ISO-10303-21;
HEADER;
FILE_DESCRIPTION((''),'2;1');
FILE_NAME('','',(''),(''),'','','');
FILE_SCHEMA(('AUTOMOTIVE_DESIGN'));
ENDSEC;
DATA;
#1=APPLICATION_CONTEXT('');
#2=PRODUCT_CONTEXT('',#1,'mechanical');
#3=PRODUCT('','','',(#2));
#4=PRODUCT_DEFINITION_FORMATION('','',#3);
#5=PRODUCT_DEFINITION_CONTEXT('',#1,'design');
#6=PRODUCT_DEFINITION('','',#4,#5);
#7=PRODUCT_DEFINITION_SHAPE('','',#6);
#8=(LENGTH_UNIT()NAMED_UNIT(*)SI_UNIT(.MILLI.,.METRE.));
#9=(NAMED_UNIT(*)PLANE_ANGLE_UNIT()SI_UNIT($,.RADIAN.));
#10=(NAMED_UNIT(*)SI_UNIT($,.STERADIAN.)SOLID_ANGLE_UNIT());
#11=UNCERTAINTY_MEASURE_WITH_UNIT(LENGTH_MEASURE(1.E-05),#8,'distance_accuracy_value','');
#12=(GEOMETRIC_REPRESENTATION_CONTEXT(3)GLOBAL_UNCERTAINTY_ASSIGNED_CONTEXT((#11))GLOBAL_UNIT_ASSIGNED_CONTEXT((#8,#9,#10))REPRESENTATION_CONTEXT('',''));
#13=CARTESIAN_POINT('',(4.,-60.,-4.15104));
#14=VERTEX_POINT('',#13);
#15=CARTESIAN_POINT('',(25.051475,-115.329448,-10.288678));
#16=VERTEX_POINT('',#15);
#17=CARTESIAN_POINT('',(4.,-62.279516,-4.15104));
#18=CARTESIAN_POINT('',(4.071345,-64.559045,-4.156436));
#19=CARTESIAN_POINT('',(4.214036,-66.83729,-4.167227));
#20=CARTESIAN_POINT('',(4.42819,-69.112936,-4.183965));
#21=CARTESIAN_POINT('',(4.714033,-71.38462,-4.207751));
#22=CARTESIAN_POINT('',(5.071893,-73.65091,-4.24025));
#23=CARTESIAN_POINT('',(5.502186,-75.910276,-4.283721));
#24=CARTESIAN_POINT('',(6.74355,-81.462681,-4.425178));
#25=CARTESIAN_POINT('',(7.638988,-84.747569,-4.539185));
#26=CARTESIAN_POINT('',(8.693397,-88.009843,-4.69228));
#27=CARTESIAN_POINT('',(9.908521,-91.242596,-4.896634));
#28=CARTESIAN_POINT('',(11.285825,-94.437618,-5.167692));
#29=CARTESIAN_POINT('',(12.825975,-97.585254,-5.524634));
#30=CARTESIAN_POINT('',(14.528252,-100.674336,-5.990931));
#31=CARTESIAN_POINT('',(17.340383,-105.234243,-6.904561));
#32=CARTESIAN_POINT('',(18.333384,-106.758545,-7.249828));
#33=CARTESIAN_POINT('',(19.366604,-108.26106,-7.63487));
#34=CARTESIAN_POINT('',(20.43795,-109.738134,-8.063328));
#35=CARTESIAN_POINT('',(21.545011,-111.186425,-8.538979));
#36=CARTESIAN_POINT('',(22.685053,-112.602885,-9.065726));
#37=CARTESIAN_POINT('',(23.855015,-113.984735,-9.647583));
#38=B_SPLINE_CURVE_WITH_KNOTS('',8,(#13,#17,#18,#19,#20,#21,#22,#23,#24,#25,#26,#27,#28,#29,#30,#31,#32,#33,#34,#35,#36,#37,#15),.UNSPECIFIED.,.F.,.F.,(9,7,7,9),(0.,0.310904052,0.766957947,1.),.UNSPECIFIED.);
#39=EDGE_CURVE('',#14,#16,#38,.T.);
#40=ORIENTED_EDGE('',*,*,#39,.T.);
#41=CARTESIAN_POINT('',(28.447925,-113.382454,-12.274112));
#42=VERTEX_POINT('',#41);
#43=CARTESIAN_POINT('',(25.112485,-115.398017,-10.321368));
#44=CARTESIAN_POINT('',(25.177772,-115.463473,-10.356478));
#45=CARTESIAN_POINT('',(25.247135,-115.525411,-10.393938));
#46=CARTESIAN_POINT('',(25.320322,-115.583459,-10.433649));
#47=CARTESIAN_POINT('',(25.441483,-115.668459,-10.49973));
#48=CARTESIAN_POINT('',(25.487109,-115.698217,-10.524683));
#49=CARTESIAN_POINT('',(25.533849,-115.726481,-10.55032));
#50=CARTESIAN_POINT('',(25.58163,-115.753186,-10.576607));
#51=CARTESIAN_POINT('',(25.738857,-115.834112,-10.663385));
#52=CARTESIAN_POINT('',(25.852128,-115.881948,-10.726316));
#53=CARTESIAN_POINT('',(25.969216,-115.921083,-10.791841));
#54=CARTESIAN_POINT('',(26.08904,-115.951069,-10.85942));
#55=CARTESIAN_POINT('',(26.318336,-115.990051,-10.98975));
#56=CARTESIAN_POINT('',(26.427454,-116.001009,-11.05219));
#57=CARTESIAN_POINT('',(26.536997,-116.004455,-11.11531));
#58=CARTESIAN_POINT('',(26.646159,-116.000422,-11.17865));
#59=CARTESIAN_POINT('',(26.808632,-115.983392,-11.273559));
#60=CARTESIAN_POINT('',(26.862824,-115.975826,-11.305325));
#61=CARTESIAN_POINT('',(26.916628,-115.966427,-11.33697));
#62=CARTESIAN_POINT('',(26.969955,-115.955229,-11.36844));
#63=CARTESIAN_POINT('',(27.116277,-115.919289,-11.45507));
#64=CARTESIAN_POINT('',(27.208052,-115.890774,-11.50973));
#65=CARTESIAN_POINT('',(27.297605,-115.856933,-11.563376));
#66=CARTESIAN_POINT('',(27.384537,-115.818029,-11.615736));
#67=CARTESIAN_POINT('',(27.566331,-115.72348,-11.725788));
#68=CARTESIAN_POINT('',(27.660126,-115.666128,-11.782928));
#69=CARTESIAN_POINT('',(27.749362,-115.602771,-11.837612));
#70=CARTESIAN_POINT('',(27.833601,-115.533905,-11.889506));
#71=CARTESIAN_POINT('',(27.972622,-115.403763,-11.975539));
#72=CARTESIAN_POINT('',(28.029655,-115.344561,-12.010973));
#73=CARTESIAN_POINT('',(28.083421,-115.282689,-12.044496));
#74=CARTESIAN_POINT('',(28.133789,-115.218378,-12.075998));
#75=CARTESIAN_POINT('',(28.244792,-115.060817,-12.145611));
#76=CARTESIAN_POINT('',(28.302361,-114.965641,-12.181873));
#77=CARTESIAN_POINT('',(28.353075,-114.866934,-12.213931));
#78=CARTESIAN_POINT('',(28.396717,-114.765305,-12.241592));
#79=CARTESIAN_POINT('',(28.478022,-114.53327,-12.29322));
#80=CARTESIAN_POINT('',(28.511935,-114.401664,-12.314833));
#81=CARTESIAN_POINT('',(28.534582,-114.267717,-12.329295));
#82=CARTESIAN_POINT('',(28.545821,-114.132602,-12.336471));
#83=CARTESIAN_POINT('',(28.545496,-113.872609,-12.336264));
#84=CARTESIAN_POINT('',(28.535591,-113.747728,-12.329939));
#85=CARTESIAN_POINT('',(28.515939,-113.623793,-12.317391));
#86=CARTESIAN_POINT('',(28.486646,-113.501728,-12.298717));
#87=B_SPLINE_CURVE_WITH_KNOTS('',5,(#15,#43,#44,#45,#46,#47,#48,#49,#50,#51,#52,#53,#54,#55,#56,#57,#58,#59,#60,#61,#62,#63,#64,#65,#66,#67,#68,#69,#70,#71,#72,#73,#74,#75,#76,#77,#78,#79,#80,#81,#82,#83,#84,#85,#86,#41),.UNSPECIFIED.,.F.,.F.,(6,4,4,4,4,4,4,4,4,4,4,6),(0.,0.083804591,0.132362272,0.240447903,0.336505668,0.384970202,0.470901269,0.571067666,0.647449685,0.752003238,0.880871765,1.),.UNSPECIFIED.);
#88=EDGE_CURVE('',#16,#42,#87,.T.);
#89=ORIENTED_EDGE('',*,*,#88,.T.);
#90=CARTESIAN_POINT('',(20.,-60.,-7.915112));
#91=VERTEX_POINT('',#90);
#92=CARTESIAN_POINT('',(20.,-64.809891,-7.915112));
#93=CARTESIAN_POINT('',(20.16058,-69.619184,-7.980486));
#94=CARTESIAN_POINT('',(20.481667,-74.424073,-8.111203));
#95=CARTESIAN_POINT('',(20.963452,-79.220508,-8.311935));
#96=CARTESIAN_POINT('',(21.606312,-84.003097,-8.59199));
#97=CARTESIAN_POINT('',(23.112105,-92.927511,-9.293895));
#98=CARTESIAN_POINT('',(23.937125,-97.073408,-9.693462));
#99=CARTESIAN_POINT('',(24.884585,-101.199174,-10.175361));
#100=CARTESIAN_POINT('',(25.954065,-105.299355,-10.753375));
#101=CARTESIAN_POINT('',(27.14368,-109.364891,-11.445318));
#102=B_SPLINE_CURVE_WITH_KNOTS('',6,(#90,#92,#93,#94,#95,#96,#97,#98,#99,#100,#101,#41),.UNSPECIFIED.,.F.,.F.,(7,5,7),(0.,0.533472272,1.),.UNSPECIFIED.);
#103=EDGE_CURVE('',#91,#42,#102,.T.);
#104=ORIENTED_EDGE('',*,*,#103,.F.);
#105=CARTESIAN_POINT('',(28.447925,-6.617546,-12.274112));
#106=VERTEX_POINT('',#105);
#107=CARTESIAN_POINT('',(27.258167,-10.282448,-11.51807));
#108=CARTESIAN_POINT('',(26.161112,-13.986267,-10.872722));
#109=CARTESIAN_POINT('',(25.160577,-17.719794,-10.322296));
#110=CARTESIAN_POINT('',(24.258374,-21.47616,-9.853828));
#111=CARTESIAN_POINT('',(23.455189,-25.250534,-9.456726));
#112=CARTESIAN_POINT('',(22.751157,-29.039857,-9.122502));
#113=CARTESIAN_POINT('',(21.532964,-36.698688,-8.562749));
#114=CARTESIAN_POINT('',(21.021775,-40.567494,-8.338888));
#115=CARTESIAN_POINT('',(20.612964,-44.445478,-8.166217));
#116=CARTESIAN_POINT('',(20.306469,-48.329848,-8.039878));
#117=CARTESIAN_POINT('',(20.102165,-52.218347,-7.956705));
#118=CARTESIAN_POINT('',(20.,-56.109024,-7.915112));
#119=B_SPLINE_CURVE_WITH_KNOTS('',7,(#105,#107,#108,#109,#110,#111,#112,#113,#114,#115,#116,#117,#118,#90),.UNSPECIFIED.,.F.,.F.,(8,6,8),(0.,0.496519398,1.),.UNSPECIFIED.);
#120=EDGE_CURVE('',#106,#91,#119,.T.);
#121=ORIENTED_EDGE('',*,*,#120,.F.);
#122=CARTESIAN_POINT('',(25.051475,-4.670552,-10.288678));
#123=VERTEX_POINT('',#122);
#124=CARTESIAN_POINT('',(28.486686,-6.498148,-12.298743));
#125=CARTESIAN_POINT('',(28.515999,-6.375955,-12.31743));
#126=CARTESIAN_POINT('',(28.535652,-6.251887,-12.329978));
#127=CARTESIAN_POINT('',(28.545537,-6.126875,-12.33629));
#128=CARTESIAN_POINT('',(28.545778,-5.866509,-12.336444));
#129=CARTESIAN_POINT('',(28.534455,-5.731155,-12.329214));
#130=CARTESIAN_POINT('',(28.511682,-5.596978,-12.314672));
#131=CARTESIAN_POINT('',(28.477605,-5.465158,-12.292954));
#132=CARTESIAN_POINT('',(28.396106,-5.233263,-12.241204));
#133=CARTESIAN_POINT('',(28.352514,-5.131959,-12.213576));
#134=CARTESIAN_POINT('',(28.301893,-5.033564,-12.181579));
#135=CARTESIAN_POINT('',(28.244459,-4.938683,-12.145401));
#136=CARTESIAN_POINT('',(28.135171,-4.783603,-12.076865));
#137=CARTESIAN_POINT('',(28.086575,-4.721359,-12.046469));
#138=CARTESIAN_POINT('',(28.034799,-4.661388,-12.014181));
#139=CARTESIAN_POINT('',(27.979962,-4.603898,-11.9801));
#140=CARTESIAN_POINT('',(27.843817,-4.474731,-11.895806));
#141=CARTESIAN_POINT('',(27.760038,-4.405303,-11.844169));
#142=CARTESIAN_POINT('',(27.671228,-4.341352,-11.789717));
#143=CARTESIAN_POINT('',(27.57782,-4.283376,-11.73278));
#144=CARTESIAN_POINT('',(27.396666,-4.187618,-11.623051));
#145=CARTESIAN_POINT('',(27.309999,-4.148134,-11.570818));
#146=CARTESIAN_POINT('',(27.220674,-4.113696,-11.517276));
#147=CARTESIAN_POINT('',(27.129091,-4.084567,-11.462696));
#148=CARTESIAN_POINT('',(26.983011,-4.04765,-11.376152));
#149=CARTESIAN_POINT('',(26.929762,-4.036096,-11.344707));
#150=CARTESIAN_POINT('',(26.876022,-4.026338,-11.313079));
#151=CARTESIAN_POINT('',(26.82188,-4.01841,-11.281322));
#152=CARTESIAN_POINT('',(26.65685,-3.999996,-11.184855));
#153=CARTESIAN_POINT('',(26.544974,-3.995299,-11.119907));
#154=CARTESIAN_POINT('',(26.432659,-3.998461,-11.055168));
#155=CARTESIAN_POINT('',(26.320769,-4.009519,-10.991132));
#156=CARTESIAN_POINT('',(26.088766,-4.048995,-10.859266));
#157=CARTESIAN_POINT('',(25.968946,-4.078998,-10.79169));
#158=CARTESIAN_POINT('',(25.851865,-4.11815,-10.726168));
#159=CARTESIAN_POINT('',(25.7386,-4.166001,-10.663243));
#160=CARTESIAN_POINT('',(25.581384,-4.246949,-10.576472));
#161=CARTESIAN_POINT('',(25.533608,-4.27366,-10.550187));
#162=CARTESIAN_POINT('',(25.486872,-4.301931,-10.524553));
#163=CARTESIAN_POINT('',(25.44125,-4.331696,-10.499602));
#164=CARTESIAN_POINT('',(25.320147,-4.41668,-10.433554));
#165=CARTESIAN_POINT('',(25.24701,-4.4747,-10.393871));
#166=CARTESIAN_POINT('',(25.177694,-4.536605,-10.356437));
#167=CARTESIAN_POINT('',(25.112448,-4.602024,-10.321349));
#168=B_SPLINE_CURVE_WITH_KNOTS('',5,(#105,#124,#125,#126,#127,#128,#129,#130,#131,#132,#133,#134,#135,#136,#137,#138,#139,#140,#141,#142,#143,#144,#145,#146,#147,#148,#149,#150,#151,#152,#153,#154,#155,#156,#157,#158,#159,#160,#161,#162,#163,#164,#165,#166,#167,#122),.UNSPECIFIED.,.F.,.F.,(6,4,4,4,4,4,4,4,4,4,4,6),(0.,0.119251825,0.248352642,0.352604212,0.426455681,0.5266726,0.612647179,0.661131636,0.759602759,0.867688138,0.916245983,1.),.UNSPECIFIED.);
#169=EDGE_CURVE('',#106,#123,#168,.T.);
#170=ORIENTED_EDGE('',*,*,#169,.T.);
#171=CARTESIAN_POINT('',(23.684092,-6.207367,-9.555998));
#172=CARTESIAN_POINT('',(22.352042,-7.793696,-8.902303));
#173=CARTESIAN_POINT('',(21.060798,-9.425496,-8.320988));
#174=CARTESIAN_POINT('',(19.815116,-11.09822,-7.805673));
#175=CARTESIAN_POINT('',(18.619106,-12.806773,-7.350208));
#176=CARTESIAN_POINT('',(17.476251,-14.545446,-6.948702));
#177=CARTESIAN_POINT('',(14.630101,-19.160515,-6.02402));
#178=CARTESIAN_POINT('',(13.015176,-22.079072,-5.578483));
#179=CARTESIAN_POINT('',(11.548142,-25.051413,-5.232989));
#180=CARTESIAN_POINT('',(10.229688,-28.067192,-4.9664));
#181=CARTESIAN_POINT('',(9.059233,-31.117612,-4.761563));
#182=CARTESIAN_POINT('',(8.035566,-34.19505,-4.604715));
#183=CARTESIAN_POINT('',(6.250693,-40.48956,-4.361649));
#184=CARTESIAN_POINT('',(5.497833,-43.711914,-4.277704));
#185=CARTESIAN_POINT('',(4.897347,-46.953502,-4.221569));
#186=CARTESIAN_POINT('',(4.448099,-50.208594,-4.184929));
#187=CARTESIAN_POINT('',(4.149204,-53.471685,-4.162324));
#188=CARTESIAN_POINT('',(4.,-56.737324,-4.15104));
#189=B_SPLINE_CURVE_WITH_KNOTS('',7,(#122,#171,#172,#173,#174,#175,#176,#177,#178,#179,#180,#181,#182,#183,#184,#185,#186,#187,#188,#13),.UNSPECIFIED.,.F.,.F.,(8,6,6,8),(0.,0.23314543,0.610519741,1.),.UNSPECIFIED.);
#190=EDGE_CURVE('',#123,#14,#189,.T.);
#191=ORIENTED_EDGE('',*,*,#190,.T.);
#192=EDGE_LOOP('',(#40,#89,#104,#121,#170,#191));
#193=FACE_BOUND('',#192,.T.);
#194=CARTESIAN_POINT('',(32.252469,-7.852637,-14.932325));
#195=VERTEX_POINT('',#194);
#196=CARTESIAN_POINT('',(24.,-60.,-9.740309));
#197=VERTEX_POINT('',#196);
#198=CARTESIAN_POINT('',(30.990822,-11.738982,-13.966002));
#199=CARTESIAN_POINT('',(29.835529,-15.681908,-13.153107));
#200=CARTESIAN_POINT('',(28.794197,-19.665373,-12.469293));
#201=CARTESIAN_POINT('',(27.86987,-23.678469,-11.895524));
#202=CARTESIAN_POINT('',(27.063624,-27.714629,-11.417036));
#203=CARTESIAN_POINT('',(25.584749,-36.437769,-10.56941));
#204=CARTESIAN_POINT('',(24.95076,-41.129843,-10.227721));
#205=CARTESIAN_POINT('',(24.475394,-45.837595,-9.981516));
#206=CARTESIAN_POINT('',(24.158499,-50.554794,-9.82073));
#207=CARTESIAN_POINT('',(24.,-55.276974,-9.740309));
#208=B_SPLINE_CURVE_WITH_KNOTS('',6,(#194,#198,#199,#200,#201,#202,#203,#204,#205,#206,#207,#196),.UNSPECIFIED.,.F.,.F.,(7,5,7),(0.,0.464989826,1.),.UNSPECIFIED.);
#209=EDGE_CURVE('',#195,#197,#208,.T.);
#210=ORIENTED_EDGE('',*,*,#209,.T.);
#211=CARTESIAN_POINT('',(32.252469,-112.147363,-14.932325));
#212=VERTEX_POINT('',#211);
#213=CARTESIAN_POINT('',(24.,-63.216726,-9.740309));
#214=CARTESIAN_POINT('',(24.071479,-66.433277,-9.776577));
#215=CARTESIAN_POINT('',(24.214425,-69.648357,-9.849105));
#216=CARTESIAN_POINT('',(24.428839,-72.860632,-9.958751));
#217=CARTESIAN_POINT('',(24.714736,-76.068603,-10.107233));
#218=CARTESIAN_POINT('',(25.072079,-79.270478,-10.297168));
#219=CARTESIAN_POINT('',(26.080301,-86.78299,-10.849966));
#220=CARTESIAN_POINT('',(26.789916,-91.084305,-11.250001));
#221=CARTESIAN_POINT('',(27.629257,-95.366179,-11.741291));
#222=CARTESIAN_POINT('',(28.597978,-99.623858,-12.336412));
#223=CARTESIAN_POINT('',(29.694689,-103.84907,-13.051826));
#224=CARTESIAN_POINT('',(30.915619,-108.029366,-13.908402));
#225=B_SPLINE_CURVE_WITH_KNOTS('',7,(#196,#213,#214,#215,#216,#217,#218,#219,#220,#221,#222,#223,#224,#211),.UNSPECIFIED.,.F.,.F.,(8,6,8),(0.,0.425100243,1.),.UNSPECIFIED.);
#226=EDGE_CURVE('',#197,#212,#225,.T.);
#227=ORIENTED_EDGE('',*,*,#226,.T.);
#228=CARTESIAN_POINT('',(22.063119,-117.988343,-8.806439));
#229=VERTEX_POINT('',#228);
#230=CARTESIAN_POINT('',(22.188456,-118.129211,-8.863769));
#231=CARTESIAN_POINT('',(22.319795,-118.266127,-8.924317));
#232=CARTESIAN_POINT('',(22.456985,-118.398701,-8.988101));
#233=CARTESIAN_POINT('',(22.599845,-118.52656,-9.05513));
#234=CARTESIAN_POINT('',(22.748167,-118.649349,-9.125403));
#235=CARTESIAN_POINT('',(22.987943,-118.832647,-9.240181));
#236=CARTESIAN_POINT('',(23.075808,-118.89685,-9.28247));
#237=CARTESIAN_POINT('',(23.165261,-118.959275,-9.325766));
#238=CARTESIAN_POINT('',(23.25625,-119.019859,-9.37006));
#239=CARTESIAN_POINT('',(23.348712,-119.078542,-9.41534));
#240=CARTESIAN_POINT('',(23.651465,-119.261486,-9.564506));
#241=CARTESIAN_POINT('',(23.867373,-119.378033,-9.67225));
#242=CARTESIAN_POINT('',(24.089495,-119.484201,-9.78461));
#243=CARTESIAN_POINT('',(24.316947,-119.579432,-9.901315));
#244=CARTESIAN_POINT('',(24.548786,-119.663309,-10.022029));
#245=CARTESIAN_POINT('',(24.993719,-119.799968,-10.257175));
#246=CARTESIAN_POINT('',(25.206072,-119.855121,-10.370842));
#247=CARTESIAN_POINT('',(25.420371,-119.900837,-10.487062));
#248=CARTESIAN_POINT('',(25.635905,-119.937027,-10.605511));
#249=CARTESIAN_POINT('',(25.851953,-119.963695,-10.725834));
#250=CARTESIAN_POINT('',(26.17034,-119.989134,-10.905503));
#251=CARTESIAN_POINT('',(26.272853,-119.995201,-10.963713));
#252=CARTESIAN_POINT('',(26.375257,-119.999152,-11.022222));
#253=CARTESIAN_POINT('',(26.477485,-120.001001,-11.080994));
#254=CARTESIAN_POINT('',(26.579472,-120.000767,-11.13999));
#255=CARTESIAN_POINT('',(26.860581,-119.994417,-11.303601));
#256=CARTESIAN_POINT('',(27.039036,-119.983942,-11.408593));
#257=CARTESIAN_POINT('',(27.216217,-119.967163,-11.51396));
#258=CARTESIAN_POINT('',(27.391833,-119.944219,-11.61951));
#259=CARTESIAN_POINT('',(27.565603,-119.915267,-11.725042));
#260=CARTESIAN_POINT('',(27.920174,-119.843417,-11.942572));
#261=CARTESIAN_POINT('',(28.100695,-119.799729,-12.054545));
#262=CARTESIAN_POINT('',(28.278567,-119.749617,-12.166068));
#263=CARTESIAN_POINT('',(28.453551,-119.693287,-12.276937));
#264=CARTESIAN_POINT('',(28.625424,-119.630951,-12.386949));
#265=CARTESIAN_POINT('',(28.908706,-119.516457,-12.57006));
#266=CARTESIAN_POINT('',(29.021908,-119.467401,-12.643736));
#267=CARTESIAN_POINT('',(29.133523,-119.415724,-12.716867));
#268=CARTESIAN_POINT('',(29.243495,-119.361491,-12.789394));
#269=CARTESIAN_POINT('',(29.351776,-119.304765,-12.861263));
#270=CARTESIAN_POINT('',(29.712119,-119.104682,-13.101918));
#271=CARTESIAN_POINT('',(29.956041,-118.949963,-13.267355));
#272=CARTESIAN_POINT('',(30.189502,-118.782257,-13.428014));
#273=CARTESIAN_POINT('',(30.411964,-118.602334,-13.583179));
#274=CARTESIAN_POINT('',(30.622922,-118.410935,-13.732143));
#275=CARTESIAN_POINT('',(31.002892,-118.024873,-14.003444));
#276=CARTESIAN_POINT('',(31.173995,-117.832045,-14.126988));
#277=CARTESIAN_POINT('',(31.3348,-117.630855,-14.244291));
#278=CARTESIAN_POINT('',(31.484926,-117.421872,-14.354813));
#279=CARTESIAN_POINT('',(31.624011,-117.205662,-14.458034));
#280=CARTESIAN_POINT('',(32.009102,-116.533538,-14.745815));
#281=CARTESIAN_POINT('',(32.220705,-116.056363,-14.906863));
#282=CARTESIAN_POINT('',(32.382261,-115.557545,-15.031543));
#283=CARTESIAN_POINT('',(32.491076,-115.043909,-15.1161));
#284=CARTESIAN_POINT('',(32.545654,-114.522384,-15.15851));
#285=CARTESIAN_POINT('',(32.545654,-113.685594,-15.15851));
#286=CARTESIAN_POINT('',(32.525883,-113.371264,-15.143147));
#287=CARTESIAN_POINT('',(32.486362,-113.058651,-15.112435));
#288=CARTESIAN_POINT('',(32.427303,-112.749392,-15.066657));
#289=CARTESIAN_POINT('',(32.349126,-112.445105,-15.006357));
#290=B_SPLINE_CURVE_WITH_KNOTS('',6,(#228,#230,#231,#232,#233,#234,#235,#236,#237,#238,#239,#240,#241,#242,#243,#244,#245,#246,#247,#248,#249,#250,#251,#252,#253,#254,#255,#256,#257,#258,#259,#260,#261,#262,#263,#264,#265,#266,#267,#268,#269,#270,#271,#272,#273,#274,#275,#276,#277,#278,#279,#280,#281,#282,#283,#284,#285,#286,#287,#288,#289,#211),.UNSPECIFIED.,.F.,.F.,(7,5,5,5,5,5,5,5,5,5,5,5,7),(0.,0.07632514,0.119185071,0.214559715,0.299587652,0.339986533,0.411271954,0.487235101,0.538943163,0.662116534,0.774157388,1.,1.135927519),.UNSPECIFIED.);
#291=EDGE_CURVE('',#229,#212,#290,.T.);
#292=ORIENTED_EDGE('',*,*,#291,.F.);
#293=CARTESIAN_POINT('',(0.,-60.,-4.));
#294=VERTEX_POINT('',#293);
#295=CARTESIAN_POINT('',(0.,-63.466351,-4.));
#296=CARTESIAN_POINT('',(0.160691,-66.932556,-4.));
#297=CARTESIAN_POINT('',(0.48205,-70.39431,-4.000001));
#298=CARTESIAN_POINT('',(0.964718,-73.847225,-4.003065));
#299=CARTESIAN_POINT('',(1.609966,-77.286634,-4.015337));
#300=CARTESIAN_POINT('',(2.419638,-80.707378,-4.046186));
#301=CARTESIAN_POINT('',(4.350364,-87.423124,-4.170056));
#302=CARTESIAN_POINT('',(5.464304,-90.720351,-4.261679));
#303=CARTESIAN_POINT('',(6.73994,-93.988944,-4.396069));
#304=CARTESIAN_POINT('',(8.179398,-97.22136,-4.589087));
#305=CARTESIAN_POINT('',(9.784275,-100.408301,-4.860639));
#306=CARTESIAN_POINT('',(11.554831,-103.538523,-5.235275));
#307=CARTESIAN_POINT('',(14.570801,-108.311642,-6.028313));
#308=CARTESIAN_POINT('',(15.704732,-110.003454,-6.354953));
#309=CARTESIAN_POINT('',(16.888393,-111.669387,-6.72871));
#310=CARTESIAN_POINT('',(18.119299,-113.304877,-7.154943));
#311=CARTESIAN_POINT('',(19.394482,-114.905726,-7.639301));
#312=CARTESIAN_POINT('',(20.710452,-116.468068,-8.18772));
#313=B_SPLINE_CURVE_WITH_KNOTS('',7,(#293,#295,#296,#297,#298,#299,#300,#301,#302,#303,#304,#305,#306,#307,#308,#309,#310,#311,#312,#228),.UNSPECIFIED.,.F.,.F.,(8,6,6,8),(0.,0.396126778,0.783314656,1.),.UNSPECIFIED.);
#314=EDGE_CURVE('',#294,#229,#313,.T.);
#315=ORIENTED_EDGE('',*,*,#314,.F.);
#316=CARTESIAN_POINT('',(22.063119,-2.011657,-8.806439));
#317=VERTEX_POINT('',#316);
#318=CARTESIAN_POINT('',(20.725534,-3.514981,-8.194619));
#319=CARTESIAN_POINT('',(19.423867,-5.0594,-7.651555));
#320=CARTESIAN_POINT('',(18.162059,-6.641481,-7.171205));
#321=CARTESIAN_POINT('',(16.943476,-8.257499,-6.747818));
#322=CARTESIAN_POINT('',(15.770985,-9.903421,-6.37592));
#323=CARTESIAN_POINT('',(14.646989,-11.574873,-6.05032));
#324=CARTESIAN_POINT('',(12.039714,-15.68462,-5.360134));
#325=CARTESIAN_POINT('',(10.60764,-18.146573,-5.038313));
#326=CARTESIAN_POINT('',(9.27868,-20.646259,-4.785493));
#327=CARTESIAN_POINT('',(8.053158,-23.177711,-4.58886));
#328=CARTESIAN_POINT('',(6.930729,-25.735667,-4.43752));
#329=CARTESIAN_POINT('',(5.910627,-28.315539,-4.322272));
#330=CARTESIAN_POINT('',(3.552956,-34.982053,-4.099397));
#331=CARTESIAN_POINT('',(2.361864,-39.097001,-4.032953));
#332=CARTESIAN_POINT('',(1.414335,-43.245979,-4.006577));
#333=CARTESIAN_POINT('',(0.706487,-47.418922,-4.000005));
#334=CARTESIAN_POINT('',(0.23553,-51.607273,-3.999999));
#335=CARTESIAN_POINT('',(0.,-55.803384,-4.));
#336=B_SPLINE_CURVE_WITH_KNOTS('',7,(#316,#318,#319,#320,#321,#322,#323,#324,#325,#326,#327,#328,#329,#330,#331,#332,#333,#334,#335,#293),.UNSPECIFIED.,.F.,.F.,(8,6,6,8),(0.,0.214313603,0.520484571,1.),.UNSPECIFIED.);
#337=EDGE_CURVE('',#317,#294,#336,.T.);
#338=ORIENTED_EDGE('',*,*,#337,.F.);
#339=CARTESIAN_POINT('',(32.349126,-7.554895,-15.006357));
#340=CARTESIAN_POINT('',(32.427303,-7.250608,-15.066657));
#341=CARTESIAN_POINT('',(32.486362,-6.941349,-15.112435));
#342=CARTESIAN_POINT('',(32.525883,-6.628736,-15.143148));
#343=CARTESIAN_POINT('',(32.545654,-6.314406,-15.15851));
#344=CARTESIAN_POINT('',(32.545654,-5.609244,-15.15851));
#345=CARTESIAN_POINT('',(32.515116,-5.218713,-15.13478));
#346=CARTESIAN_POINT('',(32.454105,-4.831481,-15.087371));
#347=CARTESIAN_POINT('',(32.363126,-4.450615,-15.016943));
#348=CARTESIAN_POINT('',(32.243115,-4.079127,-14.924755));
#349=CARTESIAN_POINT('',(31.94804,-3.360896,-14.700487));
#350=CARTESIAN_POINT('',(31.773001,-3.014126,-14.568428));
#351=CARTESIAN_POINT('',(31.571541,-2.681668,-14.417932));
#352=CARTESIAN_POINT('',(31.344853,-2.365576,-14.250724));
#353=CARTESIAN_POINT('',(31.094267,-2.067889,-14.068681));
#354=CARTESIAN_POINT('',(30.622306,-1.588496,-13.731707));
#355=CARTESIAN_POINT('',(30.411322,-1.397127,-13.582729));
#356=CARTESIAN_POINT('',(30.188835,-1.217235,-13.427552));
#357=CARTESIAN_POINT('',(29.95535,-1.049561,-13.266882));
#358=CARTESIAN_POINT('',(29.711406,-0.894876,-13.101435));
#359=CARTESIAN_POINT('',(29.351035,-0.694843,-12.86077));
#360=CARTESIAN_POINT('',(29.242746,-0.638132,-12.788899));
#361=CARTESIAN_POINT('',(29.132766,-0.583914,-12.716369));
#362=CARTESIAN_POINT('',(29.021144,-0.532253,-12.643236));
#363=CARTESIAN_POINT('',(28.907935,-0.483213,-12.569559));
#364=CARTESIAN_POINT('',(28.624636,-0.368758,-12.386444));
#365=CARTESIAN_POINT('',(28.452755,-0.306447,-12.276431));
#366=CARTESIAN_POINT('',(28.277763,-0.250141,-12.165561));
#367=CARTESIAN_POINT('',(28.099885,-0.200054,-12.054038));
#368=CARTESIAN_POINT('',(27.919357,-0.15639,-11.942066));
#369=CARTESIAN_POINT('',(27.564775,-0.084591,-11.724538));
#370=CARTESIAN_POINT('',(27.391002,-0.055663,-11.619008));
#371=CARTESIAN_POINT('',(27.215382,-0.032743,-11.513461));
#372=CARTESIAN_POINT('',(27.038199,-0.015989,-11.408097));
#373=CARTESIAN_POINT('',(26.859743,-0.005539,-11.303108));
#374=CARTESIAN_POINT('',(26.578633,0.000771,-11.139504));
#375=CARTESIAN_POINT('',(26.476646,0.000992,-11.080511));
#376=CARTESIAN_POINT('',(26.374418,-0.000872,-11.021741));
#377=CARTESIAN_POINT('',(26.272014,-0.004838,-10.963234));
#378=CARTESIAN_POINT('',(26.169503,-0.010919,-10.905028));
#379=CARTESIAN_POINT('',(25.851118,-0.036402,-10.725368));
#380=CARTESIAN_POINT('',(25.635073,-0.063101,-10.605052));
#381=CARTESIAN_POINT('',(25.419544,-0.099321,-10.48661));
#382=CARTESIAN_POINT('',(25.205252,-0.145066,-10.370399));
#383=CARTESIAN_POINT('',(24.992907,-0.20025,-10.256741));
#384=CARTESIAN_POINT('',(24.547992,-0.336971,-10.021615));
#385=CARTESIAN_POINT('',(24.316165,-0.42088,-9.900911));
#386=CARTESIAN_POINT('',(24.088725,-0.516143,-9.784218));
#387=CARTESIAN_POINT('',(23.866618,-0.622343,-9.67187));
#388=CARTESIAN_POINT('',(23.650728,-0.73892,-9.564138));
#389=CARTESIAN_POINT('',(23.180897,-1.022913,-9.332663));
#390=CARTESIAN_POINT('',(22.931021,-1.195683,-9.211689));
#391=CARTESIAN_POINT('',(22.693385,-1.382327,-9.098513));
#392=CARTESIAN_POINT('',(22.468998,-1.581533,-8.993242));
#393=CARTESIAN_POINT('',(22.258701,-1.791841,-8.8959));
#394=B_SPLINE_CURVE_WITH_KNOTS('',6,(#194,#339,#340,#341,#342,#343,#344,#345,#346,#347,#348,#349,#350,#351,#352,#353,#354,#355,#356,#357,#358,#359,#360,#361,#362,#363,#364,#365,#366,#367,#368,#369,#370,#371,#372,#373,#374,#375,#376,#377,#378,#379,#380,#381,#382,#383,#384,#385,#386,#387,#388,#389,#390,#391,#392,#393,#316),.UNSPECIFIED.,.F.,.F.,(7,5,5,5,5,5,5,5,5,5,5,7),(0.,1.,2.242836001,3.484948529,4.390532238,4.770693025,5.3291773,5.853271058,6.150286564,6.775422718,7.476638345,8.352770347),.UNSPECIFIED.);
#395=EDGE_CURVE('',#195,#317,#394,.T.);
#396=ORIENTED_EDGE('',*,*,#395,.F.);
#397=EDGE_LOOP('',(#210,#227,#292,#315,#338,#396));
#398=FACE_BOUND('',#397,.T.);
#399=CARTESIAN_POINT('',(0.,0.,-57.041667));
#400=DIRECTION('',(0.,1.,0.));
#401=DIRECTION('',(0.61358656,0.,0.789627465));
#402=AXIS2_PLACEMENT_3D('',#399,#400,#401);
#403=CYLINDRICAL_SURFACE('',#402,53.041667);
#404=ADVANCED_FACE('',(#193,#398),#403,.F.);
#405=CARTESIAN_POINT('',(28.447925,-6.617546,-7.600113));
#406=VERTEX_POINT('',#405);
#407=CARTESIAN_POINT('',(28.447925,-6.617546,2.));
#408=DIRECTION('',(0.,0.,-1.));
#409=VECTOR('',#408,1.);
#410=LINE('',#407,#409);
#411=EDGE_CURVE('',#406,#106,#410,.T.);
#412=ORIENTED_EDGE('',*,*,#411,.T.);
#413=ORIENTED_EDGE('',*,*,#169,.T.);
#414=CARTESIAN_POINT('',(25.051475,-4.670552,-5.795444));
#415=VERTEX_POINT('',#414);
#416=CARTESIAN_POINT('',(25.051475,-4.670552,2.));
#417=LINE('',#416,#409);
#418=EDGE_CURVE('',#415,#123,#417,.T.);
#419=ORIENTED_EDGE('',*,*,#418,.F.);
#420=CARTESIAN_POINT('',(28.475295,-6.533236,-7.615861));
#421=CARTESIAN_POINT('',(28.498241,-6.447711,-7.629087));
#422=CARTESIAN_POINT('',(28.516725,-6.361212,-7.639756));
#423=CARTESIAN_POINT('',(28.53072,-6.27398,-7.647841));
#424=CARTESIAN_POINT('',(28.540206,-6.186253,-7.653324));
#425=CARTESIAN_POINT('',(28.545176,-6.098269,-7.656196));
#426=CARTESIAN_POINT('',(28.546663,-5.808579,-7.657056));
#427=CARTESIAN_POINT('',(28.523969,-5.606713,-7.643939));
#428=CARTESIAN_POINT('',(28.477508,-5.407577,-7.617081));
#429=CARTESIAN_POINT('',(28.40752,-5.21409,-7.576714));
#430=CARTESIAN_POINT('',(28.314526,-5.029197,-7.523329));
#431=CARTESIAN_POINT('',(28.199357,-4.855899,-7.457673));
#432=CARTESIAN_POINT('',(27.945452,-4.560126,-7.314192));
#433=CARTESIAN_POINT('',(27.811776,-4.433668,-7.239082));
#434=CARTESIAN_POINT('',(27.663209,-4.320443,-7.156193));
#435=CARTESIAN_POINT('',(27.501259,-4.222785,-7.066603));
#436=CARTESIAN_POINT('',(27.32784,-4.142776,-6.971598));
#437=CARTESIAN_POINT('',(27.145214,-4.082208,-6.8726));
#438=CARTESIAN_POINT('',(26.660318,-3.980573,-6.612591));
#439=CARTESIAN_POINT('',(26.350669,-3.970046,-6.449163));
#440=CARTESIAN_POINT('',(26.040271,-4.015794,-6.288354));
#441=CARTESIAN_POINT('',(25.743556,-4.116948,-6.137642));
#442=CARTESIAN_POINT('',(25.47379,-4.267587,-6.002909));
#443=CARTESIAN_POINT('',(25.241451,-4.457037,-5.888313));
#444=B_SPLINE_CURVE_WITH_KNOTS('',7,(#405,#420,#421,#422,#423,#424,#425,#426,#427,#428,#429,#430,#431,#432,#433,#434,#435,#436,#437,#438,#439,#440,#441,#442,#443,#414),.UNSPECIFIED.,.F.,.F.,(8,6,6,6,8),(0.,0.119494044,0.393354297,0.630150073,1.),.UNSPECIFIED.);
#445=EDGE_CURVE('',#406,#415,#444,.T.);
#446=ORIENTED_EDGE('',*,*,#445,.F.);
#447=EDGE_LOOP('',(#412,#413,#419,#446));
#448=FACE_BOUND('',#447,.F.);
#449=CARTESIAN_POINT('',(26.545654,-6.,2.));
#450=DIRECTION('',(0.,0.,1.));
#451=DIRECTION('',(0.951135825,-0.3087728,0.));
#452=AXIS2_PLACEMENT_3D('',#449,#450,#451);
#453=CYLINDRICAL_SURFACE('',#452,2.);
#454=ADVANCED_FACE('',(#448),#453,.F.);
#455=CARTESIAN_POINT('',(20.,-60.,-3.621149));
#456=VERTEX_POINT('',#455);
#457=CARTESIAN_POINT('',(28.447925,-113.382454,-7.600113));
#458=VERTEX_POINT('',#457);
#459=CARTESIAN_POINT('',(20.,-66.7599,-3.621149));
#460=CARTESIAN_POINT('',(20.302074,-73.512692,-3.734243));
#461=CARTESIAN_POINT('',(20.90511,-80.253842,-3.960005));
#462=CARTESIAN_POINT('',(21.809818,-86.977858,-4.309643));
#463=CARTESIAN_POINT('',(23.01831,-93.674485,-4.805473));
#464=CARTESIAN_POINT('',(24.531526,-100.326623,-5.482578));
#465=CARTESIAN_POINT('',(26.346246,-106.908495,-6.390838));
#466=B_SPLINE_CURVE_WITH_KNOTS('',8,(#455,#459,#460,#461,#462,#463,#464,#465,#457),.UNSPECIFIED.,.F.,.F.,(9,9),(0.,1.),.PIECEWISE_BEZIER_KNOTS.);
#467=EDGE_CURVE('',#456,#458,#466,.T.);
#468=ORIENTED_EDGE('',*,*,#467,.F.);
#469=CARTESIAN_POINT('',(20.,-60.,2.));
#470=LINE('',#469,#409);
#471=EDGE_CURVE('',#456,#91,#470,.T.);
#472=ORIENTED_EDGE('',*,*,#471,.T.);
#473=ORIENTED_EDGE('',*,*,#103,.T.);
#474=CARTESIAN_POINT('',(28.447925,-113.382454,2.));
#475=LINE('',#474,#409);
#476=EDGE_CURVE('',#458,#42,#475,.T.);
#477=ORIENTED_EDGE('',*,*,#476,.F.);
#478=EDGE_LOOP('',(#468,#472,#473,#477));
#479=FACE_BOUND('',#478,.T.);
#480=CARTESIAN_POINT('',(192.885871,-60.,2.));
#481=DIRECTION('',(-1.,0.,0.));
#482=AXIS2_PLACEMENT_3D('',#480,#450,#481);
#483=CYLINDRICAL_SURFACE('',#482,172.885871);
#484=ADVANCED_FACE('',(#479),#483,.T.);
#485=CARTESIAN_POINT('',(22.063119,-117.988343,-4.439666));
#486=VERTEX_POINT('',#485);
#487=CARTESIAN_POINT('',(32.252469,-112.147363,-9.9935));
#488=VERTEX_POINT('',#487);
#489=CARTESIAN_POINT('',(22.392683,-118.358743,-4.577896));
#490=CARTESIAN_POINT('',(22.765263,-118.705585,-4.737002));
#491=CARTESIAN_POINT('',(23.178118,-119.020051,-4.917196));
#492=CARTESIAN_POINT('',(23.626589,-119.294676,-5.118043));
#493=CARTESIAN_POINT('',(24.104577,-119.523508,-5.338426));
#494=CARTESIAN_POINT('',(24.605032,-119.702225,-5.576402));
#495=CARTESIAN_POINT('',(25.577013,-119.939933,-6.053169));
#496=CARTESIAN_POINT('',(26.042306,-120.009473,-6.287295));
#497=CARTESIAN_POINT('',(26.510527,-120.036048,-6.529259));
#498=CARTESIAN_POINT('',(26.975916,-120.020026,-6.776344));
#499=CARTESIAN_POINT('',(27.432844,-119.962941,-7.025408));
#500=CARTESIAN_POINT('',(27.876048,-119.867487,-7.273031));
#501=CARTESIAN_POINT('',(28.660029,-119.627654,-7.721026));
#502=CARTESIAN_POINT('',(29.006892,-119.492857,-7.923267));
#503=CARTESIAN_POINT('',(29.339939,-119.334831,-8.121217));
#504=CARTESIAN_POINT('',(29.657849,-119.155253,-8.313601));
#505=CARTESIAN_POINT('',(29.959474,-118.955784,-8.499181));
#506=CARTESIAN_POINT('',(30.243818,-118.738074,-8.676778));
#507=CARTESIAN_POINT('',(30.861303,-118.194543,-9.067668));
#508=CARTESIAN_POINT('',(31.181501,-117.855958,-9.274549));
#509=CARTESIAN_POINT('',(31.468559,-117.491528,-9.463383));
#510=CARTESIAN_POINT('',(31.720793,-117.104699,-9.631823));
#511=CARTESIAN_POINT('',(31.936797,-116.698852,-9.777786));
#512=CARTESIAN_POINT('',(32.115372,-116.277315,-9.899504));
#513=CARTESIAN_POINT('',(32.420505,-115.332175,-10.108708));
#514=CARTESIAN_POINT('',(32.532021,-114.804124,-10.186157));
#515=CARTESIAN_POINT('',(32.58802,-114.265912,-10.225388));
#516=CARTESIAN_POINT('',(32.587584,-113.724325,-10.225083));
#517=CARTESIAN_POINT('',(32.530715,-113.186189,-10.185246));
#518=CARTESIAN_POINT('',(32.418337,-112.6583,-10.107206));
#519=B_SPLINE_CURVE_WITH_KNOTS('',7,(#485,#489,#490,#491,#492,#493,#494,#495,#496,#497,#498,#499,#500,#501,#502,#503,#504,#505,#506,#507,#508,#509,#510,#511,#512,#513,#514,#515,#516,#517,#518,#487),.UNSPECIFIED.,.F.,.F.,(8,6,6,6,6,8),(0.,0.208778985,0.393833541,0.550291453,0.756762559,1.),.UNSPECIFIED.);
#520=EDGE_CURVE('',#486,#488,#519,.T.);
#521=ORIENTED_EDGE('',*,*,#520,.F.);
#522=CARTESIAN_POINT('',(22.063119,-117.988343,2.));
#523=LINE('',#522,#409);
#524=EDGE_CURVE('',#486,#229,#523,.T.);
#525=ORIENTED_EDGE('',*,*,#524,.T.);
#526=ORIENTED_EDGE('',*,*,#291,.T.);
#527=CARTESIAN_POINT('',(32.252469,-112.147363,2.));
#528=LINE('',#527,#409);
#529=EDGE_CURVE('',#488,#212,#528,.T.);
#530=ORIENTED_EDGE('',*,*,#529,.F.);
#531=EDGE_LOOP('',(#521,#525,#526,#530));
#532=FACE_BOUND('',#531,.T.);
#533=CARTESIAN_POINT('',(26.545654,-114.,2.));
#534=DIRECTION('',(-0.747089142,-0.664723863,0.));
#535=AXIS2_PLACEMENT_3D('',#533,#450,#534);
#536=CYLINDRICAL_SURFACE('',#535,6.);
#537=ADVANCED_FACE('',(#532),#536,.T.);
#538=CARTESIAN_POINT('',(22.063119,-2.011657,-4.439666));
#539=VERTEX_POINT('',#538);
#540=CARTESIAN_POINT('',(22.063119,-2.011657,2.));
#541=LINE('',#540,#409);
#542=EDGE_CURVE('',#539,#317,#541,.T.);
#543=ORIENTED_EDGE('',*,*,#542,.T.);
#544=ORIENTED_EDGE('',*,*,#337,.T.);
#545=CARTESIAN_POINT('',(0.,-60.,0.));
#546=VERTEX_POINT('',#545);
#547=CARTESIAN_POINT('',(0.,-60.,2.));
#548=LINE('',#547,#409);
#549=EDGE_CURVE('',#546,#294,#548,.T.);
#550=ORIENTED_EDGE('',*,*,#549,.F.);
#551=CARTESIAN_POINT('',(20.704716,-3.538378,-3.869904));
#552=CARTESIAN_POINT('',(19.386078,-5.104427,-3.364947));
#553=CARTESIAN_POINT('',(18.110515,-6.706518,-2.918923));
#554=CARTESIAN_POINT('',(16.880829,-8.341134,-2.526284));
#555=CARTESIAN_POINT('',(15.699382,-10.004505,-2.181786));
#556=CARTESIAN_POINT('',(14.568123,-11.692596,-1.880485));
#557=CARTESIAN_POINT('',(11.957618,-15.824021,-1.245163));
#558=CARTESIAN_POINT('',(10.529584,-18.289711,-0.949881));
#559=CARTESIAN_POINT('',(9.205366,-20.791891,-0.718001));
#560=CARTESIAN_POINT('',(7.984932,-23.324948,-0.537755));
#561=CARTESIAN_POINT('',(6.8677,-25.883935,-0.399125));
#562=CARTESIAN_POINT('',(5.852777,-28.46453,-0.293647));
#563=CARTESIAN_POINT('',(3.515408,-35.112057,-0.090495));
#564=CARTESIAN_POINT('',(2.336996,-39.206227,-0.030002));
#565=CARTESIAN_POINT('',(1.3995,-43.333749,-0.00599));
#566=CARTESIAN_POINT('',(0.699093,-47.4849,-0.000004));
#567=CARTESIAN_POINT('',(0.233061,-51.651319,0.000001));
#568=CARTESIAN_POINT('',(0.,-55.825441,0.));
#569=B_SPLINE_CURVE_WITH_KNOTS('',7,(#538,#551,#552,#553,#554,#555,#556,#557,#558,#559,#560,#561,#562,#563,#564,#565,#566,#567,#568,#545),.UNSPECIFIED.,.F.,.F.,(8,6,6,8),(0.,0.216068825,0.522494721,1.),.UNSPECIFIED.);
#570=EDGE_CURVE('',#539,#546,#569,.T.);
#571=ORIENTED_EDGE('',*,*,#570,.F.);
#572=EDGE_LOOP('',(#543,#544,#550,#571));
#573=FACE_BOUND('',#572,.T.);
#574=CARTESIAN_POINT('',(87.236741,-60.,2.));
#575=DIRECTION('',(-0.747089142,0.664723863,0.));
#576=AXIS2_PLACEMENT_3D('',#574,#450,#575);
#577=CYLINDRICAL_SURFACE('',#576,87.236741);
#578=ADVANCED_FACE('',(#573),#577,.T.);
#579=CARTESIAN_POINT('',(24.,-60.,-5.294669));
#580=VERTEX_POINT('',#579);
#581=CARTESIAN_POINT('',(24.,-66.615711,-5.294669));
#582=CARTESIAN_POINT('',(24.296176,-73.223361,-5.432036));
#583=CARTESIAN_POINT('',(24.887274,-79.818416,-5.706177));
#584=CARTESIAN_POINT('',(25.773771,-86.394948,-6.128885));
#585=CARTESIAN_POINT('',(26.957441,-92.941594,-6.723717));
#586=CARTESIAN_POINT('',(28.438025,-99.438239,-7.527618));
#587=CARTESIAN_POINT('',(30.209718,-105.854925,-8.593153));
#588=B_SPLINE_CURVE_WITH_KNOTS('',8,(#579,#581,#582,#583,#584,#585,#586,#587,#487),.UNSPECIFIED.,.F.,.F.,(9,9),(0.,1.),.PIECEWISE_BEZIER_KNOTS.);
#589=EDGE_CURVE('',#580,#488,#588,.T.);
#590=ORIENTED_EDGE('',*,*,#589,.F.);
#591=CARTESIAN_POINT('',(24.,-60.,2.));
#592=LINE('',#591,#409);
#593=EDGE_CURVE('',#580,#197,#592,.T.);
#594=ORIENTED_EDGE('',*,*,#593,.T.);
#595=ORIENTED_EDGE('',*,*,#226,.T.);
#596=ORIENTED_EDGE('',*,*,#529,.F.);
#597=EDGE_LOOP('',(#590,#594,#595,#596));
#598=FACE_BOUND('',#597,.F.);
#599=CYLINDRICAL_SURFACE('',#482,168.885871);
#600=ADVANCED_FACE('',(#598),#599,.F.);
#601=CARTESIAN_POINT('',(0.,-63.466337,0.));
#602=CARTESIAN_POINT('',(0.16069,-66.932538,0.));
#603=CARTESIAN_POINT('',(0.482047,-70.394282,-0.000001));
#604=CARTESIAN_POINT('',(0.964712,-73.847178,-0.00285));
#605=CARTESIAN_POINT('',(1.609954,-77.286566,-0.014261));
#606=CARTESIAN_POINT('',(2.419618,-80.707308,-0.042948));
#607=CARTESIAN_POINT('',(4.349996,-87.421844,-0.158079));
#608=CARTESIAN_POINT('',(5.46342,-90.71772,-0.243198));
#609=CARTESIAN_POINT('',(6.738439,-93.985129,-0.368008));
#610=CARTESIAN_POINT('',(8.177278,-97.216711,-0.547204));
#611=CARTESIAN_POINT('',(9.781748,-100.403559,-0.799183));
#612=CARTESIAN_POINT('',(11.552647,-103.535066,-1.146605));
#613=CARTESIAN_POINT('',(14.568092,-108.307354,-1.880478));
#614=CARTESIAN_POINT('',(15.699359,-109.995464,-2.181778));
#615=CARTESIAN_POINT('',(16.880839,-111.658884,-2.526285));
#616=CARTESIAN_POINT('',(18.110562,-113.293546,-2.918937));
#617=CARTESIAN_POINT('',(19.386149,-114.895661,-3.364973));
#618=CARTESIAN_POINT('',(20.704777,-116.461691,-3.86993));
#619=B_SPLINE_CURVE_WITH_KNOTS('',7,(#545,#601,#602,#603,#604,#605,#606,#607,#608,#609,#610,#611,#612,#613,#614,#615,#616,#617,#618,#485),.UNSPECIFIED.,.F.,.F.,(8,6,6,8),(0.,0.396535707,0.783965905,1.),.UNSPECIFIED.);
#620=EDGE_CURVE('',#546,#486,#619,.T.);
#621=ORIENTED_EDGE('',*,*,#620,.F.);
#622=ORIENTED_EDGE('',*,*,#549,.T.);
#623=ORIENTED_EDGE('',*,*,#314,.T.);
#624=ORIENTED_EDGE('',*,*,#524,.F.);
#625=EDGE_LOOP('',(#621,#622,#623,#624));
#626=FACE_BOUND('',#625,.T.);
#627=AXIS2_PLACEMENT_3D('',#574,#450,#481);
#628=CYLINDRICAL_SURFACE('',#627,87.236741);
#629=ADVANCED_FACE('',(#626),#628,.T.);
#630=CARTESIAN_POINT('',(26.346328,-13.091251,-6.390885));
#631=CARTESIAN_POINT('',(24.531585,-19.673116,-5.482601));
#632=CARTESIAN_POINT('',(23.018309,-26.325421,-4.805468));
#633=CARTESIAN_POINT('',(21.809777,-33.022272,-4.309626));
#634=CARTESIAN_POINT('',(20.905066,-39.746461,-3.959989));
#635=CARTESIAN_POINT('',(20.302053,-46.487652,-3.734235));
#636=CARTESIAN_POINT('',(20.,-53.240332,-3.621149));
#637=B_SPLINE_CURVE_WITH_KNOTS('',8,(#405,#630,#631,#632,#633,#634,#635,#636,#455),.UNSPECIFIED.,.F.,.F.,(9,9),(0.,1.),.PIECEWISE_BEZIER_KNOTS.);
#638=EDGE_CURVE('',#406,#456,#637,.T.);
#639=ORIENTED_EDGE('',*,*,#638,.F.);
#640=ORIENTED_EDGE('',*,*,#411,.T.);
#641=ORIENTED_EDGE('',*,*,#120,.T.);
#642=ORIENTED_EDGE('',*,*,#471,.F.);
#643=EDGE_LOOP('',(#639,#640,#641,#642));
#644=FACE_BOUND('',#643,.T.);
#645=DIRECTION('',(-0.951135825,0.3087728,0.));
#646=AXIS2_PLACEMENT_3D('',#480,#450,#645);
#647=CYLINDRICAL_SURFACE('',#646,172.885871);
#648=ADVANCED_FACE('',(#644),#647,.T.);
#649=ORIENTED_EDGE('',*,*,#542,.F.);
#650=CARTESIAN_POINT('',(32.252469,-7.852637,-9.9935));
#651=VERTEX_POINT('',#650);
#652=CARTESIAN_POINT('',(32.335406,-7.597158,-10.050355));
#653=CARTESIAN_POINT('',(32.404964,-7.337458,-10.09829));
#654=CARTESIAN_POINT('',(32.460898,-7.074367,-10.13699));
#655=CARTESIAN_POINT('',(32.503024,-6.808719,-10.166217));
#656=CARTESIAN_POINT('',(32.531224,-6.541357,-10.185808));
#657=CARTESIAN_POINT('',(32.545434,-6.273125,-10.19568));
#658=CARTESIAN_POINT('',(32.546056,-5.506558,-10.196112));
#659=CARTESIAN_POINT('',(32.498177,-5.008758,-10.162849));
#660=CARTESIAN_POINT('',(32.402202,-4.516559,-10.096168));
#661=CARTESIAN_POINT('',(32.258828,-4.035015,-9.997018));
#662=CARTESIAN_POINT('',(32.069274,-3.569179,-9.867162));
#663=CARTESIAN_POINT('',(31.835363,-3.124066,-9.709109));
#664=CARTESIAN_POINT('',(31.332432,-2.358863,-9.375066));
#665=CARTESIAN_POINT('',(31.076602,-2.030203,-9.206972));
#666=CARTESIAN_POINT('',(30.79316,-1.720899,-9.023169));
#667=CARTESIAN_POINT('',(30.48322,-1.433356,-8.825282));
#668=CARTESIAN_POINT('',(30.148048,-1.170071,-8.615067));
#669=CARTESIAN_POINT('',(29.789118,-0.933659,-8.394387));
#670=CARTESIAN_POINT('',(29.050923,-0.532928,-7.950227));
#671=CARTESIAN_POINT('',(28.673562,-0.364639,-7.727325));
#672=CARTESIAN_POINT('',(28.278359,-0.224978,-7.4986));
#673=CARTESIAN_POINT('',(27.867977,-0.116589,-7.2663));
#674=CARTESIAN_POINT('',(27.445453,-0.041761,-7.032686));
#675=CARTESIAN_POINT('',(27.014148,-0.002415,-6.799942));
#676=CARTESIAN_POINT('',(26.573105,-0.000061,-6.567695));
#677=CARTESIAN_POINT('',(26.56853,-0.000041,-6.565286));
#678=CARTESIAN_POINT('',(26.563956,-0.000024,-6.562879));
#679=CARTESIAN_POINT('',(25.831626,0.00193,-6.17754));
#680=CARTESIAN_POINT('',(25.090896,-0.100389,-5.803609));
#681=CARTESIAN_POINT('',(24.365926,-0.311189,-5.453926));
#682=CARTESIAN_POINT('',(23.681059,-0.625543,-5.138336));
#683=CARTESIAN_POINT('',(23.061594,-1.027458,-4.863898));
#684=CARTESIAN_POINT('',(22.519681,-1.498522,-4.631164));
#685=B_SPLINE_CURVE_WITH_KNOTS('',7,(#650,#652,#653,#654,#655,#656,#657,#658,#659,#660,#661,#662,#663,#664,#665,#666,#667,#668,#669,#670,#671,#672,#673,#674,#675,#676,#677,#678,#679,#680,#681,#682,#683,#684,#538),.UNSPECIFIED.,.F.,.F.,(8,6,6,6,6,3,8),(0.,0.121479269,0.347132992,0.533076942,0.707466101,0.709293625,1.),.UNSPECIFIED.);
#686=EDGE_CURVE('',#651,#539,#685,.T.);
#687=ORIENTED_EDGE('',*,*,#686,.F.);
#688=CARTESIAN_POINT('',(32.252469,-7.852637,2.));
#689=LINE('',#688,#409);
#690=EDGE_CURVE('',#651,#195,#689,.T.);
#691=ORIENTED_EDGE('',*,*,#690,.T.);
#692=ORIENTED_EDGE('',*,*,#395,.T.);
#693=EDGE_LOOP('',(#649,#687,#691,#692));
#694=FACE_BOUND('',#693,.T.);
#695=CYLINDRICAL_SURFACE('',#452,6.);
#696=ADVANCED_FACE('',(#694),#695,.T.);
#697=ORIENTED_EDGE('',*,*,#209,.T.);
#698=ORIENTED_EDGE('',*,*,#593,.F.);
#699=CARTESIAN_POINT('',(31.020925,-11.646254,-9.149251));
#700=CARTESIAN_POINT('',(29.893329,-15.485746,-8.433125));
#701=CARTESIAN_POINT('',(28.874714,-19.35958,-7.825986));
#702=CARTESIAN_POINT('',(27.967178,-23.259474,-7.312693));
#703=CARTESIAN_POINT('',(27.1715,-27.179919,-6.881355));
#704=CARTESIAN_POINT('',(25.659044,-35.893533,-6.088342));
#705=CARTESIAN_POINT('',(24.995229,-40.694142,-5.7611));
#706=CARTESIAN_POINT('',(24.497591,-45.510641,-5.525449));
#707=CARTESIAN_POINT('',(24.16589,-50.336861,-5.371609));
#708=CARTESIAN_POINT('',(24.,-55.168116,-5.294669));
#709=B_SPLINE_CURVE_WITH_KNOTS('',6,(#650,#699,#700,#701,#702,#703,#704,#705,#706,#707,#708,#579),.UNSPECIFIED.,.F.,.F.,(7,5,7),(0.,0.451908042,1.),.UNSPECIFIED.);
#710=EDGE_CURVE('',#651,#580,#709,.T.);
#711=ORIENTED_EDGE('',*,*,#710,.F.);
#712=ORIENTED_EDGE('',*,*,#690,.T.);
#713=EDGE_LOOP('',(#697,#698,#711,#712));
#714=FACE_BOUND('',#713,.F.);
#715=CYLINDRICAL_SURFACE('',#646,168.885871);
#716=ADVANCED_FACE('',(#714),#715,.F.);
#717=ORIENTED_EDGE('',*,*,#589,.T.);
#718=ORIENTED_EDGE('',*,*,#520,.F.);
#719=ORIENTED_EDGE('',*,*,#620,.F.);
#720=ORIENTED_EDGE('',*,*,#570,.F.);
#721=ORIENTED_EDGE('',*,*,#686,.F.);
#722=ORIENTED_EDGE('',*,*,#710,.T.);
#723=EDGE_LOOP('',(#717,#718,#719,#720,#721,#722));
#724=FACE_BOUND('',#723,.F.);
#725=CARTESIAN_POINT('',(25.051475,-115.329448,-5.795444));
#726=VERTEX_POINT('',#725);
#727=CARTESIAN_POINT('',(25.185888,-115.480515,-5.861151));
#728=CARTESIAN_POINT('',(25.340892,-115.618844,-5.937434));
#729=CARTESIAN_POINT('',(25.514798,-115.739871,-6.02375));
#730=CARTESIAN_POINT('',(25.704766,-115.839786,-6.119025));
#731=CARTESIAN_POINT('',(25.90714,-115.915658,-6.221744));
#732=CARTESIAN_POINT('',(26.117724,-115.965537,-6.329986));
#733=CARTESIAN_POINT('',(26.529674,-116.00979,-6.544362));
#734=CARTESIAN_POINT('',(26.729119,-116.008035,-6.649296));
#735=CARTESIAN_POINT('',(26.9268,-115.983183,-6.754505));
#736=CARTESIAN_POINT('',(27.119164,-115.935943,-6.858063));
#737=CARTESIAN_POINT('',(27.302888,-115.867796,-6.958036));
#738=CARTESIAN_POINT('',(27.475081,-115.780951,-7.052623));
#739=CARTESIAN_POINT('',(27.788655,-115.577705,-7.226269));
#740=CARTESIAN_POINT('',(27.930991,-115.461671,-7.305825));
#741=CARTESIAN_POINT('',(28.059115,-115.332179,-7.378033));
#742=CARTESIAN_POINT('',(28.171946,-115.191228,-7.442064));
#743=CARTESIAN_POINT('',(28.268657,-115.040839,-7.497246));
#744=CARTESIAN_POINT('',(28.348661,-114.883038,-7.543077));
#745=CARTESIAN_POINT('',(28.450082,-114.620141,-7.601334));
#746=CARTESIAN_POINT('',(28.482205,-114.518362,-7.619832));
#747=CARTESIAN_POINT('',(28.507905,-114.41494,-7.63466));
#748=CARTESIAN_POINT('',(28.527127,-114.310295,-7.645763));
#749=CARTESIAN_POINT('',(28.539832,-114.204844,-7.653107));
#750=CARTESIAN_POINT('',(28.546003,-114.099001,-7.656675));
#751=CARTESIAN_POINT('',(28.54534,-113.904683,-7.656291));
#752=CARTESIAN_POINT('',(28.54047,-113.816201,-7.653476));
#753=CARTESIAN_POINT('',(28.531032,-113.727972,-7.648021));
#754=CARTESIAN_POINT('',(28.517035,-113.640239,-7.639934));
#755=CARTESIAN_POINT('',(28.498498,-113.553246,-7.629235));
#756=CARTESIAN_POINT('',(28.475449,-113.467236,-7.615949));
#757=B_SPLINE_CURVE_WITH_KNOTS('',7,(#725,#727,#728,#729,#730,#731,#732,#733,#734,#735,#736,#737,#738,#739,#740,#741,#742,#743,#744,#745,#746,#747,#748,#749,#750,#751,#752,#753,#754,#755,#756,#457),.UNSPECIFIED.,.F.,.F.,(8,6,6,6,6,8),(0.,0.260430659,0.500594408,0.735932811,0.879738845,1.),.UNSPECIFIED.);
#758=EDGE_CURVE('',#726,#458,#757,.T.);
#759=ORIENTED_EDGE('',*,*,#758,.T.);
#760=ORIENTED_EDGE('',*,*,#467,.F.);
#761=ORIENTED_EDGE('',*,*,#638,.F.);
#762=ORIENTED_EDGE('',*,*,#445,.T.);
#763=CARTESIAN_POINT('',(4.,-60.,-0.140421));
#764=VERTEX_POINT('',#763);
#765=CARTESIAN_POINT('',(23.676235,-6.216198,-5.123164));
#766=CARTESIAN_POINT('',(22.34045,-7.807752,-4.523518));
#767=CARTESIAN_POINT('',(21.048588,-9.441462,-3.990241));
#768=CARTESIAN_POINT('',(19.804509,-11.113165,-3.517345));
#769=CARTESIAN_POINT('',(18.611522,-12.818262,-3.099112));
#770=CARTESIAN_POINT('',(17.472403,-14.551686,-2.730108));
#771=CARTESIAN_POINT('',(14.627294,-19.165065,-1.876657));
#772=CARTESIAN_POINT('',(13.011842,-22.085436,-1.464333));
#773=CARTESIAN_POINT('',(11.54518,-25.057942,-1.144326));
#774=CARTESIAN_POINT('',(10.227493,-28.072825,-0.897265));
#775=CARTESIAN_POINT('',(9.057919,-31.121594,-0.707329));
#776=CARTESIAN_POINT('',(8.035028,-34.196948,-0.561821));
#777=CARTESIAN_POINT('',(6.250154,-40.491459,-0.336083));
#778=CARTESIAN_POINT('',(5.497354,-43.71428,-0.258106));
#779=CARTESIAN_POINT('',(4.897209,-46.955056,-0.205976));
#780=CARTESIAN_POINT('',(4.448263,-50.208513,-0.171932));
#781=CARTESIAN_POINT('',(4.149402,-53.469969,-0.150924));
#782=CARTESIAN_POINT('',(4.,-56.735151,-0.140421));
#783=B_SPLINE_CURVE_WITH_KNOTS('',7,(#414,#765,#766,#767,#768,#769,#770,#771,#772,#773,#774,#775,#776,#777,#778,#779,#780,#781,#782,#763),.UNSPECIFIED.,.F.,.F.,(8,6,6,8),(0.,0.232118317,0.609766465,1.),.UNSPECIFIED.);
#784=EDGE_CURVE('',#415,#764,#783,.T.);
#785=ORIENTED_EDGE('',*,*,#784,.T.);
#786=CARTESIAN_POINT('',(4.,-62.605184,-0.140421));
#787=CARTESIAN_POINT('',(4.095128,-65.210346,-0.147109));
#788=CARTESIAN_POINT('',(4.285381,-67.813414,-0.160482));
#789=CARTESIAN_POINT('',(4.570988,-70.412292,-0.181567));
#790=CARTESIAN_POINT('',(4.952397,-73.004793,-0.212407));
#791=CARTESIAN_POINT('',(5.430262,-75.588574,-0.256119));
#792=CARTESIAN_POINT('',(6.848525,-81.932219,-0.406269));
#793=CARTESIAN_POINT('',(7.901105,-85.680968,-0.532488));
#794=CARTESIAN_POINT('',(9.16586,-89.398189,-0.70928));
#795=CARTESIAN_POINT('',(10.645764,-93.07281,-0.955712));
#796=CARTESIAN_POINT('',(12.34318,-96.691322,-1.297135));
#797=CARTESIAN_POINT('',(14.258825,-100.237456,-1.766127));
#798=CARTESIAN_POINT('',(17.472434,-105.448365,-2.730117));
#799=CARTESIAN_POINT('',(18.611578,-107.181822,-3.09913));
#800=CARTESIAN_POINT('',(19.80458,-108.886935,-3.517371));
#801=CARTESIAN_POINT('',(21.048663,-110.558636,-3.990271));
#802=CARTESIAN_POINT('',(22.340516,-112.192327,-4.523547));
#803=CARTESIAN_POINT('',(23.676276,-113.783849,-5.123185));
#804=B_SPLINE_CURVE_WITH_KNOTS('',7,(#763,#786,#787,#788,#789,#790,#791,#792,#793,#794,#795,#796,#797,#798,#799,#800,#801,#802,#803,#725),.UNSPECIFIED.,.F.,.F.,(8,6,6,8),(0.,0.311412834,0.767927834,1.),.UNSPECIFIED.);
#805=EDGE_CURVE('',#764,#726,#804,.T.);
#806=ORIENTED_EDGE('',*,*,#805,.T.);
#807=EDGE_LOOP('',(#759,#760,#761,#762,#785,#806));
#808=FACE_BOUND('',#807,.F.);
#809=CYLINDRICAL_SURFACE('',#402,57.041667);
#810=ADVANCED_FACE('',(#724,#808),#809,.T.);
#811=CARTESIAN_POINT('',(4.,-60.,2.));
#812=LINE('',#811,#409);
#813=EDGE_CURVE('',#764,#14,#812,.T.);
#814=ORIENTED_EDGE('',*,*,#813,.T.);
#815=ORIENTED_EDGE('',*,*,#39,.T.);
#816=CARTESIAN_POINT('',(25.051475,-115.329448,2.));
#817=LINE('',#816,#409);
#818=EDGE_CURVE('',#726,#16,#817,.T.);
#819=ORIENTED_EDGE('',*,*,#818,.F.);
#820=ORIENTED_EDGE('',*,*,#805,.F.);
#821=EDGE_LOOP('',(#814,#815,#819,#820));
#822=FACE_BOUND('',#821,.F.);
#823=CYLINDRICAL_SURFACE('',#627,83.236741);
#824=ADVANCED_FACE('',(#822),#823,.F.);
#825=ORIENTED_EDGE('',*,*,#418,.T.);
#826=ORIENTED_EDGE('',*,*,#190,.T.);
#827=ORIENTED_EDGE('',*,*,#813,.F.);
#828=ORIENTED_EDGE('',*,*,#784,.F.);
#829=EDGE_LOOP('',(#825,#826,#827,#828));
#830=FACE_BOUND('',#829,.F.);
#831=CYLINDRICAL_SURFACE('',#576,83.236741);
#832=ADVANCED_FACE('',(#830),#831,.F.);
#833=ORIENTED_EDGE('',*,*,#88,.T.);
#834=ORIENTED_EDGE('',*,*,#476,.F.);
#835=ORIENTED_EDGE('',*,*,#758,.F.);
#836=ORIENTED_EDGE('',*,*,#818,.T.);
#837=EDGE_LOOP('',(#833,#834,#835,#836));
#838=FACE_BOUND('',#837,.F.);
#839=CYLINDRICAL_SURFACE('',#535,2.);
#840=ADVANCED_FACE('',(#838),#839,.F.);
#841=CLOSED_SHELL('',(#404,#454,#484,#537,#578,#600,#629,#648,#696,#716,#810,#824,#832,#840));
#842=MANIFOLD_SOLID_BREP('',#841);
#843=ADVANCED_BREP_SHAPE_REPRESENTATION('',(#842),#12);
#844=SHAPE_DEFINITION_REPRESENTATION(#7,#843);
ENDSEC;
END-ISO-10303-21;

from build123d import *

# Parameters (mm, degrees)
PAD_DEPTH    = 120
SKETCH001_W  = 106.691582
SKETCH001_H  = 157.654909
POCKET_DEPTH = 17.1595098612


with BuildPart() as part:
    # Sketch → Pad (new body)
    with BuildSketch(Plane.XZ):
        with BuildLine():
            ThreePointArc((35, -12), (18.5, -3.0833333333), (0, 0))
            Line((0, 0), (0, -4))
            ThreePointArc((32.5456537619, -15.1585098612), (17.2027027027, -6.8671171171), (0, -4))
            Line((32.5456537619, -15.1585098612), (35, -12))
        make_face()
    extrude(amount=PAD_DEPTH)

    # Sketch001 (on DatumPlane) → Pocket (cut, through all)
    with BuildSketch(Plane.XY.offset(2)):
        with Locations((20.474781, -55.6624445)):
            Rectangle(SKETCH001_W, SKETCH001_H)
        with BuildLine():
            ThreePointArc((32.2524687129, -7.8526368005), (29.5296070486, -0.7946159813), (22.0631189103, -2.0116568221))
            ThreePointArc((22.0631189103, -2.0116568221), (5.7021367812, -28.9781159479), (0, -60))
            ThreePointArc((0, -60), (5.7021367812, -91.0218840521), (22.0631189103, -117.9883431779))
            ThreePointArc((22.0631189103, -117.9883431779), (29.5296070486, -119.2053840187), (32.2524687129, -112.1473631995))
            ThreePointArc((24, -60), (26.075875076, -86.3981567942), (32.2524687129, -112.1473631995))
            ThreePointArc((32.2524687129, -7.8526368005), (26.075875076, -33.6018432058), (24, -60))
        make_face(mode=Mode.SUBTRACT)
        with BuildLine():
            ThreePointArc((25.051475478, -115.329447726), (27.5403048575, -115.7351280062), (28.4479254122, -113.3824543998))
            ThreePointArc((20, -60), (22.1250414169, -87.0233874705), (28.4479254122, -113.3824543998))
            ThreePointArc((28.4479254122, -6.6175456002), (22.1250414169, -32.9766125295), (20, -60))
            ThreePointArc((28.4479254122, -6.6175456002), (27.5403048575, -4.2648719938), (25.051475478, -4.670552274))
            ThreePointArc((25.051475478, -4.670552274), (9.4406810347, -30.4005388332), (4, -60))
            ThreePointArc((4, -60), (9.4406810347, -89.5994611668), (25.051475478, -115.329447726))
        make_face()
    extrude(amount=-POCKET_DEPTH, mode=Mode.SUBTRACT)


solid = part.part
